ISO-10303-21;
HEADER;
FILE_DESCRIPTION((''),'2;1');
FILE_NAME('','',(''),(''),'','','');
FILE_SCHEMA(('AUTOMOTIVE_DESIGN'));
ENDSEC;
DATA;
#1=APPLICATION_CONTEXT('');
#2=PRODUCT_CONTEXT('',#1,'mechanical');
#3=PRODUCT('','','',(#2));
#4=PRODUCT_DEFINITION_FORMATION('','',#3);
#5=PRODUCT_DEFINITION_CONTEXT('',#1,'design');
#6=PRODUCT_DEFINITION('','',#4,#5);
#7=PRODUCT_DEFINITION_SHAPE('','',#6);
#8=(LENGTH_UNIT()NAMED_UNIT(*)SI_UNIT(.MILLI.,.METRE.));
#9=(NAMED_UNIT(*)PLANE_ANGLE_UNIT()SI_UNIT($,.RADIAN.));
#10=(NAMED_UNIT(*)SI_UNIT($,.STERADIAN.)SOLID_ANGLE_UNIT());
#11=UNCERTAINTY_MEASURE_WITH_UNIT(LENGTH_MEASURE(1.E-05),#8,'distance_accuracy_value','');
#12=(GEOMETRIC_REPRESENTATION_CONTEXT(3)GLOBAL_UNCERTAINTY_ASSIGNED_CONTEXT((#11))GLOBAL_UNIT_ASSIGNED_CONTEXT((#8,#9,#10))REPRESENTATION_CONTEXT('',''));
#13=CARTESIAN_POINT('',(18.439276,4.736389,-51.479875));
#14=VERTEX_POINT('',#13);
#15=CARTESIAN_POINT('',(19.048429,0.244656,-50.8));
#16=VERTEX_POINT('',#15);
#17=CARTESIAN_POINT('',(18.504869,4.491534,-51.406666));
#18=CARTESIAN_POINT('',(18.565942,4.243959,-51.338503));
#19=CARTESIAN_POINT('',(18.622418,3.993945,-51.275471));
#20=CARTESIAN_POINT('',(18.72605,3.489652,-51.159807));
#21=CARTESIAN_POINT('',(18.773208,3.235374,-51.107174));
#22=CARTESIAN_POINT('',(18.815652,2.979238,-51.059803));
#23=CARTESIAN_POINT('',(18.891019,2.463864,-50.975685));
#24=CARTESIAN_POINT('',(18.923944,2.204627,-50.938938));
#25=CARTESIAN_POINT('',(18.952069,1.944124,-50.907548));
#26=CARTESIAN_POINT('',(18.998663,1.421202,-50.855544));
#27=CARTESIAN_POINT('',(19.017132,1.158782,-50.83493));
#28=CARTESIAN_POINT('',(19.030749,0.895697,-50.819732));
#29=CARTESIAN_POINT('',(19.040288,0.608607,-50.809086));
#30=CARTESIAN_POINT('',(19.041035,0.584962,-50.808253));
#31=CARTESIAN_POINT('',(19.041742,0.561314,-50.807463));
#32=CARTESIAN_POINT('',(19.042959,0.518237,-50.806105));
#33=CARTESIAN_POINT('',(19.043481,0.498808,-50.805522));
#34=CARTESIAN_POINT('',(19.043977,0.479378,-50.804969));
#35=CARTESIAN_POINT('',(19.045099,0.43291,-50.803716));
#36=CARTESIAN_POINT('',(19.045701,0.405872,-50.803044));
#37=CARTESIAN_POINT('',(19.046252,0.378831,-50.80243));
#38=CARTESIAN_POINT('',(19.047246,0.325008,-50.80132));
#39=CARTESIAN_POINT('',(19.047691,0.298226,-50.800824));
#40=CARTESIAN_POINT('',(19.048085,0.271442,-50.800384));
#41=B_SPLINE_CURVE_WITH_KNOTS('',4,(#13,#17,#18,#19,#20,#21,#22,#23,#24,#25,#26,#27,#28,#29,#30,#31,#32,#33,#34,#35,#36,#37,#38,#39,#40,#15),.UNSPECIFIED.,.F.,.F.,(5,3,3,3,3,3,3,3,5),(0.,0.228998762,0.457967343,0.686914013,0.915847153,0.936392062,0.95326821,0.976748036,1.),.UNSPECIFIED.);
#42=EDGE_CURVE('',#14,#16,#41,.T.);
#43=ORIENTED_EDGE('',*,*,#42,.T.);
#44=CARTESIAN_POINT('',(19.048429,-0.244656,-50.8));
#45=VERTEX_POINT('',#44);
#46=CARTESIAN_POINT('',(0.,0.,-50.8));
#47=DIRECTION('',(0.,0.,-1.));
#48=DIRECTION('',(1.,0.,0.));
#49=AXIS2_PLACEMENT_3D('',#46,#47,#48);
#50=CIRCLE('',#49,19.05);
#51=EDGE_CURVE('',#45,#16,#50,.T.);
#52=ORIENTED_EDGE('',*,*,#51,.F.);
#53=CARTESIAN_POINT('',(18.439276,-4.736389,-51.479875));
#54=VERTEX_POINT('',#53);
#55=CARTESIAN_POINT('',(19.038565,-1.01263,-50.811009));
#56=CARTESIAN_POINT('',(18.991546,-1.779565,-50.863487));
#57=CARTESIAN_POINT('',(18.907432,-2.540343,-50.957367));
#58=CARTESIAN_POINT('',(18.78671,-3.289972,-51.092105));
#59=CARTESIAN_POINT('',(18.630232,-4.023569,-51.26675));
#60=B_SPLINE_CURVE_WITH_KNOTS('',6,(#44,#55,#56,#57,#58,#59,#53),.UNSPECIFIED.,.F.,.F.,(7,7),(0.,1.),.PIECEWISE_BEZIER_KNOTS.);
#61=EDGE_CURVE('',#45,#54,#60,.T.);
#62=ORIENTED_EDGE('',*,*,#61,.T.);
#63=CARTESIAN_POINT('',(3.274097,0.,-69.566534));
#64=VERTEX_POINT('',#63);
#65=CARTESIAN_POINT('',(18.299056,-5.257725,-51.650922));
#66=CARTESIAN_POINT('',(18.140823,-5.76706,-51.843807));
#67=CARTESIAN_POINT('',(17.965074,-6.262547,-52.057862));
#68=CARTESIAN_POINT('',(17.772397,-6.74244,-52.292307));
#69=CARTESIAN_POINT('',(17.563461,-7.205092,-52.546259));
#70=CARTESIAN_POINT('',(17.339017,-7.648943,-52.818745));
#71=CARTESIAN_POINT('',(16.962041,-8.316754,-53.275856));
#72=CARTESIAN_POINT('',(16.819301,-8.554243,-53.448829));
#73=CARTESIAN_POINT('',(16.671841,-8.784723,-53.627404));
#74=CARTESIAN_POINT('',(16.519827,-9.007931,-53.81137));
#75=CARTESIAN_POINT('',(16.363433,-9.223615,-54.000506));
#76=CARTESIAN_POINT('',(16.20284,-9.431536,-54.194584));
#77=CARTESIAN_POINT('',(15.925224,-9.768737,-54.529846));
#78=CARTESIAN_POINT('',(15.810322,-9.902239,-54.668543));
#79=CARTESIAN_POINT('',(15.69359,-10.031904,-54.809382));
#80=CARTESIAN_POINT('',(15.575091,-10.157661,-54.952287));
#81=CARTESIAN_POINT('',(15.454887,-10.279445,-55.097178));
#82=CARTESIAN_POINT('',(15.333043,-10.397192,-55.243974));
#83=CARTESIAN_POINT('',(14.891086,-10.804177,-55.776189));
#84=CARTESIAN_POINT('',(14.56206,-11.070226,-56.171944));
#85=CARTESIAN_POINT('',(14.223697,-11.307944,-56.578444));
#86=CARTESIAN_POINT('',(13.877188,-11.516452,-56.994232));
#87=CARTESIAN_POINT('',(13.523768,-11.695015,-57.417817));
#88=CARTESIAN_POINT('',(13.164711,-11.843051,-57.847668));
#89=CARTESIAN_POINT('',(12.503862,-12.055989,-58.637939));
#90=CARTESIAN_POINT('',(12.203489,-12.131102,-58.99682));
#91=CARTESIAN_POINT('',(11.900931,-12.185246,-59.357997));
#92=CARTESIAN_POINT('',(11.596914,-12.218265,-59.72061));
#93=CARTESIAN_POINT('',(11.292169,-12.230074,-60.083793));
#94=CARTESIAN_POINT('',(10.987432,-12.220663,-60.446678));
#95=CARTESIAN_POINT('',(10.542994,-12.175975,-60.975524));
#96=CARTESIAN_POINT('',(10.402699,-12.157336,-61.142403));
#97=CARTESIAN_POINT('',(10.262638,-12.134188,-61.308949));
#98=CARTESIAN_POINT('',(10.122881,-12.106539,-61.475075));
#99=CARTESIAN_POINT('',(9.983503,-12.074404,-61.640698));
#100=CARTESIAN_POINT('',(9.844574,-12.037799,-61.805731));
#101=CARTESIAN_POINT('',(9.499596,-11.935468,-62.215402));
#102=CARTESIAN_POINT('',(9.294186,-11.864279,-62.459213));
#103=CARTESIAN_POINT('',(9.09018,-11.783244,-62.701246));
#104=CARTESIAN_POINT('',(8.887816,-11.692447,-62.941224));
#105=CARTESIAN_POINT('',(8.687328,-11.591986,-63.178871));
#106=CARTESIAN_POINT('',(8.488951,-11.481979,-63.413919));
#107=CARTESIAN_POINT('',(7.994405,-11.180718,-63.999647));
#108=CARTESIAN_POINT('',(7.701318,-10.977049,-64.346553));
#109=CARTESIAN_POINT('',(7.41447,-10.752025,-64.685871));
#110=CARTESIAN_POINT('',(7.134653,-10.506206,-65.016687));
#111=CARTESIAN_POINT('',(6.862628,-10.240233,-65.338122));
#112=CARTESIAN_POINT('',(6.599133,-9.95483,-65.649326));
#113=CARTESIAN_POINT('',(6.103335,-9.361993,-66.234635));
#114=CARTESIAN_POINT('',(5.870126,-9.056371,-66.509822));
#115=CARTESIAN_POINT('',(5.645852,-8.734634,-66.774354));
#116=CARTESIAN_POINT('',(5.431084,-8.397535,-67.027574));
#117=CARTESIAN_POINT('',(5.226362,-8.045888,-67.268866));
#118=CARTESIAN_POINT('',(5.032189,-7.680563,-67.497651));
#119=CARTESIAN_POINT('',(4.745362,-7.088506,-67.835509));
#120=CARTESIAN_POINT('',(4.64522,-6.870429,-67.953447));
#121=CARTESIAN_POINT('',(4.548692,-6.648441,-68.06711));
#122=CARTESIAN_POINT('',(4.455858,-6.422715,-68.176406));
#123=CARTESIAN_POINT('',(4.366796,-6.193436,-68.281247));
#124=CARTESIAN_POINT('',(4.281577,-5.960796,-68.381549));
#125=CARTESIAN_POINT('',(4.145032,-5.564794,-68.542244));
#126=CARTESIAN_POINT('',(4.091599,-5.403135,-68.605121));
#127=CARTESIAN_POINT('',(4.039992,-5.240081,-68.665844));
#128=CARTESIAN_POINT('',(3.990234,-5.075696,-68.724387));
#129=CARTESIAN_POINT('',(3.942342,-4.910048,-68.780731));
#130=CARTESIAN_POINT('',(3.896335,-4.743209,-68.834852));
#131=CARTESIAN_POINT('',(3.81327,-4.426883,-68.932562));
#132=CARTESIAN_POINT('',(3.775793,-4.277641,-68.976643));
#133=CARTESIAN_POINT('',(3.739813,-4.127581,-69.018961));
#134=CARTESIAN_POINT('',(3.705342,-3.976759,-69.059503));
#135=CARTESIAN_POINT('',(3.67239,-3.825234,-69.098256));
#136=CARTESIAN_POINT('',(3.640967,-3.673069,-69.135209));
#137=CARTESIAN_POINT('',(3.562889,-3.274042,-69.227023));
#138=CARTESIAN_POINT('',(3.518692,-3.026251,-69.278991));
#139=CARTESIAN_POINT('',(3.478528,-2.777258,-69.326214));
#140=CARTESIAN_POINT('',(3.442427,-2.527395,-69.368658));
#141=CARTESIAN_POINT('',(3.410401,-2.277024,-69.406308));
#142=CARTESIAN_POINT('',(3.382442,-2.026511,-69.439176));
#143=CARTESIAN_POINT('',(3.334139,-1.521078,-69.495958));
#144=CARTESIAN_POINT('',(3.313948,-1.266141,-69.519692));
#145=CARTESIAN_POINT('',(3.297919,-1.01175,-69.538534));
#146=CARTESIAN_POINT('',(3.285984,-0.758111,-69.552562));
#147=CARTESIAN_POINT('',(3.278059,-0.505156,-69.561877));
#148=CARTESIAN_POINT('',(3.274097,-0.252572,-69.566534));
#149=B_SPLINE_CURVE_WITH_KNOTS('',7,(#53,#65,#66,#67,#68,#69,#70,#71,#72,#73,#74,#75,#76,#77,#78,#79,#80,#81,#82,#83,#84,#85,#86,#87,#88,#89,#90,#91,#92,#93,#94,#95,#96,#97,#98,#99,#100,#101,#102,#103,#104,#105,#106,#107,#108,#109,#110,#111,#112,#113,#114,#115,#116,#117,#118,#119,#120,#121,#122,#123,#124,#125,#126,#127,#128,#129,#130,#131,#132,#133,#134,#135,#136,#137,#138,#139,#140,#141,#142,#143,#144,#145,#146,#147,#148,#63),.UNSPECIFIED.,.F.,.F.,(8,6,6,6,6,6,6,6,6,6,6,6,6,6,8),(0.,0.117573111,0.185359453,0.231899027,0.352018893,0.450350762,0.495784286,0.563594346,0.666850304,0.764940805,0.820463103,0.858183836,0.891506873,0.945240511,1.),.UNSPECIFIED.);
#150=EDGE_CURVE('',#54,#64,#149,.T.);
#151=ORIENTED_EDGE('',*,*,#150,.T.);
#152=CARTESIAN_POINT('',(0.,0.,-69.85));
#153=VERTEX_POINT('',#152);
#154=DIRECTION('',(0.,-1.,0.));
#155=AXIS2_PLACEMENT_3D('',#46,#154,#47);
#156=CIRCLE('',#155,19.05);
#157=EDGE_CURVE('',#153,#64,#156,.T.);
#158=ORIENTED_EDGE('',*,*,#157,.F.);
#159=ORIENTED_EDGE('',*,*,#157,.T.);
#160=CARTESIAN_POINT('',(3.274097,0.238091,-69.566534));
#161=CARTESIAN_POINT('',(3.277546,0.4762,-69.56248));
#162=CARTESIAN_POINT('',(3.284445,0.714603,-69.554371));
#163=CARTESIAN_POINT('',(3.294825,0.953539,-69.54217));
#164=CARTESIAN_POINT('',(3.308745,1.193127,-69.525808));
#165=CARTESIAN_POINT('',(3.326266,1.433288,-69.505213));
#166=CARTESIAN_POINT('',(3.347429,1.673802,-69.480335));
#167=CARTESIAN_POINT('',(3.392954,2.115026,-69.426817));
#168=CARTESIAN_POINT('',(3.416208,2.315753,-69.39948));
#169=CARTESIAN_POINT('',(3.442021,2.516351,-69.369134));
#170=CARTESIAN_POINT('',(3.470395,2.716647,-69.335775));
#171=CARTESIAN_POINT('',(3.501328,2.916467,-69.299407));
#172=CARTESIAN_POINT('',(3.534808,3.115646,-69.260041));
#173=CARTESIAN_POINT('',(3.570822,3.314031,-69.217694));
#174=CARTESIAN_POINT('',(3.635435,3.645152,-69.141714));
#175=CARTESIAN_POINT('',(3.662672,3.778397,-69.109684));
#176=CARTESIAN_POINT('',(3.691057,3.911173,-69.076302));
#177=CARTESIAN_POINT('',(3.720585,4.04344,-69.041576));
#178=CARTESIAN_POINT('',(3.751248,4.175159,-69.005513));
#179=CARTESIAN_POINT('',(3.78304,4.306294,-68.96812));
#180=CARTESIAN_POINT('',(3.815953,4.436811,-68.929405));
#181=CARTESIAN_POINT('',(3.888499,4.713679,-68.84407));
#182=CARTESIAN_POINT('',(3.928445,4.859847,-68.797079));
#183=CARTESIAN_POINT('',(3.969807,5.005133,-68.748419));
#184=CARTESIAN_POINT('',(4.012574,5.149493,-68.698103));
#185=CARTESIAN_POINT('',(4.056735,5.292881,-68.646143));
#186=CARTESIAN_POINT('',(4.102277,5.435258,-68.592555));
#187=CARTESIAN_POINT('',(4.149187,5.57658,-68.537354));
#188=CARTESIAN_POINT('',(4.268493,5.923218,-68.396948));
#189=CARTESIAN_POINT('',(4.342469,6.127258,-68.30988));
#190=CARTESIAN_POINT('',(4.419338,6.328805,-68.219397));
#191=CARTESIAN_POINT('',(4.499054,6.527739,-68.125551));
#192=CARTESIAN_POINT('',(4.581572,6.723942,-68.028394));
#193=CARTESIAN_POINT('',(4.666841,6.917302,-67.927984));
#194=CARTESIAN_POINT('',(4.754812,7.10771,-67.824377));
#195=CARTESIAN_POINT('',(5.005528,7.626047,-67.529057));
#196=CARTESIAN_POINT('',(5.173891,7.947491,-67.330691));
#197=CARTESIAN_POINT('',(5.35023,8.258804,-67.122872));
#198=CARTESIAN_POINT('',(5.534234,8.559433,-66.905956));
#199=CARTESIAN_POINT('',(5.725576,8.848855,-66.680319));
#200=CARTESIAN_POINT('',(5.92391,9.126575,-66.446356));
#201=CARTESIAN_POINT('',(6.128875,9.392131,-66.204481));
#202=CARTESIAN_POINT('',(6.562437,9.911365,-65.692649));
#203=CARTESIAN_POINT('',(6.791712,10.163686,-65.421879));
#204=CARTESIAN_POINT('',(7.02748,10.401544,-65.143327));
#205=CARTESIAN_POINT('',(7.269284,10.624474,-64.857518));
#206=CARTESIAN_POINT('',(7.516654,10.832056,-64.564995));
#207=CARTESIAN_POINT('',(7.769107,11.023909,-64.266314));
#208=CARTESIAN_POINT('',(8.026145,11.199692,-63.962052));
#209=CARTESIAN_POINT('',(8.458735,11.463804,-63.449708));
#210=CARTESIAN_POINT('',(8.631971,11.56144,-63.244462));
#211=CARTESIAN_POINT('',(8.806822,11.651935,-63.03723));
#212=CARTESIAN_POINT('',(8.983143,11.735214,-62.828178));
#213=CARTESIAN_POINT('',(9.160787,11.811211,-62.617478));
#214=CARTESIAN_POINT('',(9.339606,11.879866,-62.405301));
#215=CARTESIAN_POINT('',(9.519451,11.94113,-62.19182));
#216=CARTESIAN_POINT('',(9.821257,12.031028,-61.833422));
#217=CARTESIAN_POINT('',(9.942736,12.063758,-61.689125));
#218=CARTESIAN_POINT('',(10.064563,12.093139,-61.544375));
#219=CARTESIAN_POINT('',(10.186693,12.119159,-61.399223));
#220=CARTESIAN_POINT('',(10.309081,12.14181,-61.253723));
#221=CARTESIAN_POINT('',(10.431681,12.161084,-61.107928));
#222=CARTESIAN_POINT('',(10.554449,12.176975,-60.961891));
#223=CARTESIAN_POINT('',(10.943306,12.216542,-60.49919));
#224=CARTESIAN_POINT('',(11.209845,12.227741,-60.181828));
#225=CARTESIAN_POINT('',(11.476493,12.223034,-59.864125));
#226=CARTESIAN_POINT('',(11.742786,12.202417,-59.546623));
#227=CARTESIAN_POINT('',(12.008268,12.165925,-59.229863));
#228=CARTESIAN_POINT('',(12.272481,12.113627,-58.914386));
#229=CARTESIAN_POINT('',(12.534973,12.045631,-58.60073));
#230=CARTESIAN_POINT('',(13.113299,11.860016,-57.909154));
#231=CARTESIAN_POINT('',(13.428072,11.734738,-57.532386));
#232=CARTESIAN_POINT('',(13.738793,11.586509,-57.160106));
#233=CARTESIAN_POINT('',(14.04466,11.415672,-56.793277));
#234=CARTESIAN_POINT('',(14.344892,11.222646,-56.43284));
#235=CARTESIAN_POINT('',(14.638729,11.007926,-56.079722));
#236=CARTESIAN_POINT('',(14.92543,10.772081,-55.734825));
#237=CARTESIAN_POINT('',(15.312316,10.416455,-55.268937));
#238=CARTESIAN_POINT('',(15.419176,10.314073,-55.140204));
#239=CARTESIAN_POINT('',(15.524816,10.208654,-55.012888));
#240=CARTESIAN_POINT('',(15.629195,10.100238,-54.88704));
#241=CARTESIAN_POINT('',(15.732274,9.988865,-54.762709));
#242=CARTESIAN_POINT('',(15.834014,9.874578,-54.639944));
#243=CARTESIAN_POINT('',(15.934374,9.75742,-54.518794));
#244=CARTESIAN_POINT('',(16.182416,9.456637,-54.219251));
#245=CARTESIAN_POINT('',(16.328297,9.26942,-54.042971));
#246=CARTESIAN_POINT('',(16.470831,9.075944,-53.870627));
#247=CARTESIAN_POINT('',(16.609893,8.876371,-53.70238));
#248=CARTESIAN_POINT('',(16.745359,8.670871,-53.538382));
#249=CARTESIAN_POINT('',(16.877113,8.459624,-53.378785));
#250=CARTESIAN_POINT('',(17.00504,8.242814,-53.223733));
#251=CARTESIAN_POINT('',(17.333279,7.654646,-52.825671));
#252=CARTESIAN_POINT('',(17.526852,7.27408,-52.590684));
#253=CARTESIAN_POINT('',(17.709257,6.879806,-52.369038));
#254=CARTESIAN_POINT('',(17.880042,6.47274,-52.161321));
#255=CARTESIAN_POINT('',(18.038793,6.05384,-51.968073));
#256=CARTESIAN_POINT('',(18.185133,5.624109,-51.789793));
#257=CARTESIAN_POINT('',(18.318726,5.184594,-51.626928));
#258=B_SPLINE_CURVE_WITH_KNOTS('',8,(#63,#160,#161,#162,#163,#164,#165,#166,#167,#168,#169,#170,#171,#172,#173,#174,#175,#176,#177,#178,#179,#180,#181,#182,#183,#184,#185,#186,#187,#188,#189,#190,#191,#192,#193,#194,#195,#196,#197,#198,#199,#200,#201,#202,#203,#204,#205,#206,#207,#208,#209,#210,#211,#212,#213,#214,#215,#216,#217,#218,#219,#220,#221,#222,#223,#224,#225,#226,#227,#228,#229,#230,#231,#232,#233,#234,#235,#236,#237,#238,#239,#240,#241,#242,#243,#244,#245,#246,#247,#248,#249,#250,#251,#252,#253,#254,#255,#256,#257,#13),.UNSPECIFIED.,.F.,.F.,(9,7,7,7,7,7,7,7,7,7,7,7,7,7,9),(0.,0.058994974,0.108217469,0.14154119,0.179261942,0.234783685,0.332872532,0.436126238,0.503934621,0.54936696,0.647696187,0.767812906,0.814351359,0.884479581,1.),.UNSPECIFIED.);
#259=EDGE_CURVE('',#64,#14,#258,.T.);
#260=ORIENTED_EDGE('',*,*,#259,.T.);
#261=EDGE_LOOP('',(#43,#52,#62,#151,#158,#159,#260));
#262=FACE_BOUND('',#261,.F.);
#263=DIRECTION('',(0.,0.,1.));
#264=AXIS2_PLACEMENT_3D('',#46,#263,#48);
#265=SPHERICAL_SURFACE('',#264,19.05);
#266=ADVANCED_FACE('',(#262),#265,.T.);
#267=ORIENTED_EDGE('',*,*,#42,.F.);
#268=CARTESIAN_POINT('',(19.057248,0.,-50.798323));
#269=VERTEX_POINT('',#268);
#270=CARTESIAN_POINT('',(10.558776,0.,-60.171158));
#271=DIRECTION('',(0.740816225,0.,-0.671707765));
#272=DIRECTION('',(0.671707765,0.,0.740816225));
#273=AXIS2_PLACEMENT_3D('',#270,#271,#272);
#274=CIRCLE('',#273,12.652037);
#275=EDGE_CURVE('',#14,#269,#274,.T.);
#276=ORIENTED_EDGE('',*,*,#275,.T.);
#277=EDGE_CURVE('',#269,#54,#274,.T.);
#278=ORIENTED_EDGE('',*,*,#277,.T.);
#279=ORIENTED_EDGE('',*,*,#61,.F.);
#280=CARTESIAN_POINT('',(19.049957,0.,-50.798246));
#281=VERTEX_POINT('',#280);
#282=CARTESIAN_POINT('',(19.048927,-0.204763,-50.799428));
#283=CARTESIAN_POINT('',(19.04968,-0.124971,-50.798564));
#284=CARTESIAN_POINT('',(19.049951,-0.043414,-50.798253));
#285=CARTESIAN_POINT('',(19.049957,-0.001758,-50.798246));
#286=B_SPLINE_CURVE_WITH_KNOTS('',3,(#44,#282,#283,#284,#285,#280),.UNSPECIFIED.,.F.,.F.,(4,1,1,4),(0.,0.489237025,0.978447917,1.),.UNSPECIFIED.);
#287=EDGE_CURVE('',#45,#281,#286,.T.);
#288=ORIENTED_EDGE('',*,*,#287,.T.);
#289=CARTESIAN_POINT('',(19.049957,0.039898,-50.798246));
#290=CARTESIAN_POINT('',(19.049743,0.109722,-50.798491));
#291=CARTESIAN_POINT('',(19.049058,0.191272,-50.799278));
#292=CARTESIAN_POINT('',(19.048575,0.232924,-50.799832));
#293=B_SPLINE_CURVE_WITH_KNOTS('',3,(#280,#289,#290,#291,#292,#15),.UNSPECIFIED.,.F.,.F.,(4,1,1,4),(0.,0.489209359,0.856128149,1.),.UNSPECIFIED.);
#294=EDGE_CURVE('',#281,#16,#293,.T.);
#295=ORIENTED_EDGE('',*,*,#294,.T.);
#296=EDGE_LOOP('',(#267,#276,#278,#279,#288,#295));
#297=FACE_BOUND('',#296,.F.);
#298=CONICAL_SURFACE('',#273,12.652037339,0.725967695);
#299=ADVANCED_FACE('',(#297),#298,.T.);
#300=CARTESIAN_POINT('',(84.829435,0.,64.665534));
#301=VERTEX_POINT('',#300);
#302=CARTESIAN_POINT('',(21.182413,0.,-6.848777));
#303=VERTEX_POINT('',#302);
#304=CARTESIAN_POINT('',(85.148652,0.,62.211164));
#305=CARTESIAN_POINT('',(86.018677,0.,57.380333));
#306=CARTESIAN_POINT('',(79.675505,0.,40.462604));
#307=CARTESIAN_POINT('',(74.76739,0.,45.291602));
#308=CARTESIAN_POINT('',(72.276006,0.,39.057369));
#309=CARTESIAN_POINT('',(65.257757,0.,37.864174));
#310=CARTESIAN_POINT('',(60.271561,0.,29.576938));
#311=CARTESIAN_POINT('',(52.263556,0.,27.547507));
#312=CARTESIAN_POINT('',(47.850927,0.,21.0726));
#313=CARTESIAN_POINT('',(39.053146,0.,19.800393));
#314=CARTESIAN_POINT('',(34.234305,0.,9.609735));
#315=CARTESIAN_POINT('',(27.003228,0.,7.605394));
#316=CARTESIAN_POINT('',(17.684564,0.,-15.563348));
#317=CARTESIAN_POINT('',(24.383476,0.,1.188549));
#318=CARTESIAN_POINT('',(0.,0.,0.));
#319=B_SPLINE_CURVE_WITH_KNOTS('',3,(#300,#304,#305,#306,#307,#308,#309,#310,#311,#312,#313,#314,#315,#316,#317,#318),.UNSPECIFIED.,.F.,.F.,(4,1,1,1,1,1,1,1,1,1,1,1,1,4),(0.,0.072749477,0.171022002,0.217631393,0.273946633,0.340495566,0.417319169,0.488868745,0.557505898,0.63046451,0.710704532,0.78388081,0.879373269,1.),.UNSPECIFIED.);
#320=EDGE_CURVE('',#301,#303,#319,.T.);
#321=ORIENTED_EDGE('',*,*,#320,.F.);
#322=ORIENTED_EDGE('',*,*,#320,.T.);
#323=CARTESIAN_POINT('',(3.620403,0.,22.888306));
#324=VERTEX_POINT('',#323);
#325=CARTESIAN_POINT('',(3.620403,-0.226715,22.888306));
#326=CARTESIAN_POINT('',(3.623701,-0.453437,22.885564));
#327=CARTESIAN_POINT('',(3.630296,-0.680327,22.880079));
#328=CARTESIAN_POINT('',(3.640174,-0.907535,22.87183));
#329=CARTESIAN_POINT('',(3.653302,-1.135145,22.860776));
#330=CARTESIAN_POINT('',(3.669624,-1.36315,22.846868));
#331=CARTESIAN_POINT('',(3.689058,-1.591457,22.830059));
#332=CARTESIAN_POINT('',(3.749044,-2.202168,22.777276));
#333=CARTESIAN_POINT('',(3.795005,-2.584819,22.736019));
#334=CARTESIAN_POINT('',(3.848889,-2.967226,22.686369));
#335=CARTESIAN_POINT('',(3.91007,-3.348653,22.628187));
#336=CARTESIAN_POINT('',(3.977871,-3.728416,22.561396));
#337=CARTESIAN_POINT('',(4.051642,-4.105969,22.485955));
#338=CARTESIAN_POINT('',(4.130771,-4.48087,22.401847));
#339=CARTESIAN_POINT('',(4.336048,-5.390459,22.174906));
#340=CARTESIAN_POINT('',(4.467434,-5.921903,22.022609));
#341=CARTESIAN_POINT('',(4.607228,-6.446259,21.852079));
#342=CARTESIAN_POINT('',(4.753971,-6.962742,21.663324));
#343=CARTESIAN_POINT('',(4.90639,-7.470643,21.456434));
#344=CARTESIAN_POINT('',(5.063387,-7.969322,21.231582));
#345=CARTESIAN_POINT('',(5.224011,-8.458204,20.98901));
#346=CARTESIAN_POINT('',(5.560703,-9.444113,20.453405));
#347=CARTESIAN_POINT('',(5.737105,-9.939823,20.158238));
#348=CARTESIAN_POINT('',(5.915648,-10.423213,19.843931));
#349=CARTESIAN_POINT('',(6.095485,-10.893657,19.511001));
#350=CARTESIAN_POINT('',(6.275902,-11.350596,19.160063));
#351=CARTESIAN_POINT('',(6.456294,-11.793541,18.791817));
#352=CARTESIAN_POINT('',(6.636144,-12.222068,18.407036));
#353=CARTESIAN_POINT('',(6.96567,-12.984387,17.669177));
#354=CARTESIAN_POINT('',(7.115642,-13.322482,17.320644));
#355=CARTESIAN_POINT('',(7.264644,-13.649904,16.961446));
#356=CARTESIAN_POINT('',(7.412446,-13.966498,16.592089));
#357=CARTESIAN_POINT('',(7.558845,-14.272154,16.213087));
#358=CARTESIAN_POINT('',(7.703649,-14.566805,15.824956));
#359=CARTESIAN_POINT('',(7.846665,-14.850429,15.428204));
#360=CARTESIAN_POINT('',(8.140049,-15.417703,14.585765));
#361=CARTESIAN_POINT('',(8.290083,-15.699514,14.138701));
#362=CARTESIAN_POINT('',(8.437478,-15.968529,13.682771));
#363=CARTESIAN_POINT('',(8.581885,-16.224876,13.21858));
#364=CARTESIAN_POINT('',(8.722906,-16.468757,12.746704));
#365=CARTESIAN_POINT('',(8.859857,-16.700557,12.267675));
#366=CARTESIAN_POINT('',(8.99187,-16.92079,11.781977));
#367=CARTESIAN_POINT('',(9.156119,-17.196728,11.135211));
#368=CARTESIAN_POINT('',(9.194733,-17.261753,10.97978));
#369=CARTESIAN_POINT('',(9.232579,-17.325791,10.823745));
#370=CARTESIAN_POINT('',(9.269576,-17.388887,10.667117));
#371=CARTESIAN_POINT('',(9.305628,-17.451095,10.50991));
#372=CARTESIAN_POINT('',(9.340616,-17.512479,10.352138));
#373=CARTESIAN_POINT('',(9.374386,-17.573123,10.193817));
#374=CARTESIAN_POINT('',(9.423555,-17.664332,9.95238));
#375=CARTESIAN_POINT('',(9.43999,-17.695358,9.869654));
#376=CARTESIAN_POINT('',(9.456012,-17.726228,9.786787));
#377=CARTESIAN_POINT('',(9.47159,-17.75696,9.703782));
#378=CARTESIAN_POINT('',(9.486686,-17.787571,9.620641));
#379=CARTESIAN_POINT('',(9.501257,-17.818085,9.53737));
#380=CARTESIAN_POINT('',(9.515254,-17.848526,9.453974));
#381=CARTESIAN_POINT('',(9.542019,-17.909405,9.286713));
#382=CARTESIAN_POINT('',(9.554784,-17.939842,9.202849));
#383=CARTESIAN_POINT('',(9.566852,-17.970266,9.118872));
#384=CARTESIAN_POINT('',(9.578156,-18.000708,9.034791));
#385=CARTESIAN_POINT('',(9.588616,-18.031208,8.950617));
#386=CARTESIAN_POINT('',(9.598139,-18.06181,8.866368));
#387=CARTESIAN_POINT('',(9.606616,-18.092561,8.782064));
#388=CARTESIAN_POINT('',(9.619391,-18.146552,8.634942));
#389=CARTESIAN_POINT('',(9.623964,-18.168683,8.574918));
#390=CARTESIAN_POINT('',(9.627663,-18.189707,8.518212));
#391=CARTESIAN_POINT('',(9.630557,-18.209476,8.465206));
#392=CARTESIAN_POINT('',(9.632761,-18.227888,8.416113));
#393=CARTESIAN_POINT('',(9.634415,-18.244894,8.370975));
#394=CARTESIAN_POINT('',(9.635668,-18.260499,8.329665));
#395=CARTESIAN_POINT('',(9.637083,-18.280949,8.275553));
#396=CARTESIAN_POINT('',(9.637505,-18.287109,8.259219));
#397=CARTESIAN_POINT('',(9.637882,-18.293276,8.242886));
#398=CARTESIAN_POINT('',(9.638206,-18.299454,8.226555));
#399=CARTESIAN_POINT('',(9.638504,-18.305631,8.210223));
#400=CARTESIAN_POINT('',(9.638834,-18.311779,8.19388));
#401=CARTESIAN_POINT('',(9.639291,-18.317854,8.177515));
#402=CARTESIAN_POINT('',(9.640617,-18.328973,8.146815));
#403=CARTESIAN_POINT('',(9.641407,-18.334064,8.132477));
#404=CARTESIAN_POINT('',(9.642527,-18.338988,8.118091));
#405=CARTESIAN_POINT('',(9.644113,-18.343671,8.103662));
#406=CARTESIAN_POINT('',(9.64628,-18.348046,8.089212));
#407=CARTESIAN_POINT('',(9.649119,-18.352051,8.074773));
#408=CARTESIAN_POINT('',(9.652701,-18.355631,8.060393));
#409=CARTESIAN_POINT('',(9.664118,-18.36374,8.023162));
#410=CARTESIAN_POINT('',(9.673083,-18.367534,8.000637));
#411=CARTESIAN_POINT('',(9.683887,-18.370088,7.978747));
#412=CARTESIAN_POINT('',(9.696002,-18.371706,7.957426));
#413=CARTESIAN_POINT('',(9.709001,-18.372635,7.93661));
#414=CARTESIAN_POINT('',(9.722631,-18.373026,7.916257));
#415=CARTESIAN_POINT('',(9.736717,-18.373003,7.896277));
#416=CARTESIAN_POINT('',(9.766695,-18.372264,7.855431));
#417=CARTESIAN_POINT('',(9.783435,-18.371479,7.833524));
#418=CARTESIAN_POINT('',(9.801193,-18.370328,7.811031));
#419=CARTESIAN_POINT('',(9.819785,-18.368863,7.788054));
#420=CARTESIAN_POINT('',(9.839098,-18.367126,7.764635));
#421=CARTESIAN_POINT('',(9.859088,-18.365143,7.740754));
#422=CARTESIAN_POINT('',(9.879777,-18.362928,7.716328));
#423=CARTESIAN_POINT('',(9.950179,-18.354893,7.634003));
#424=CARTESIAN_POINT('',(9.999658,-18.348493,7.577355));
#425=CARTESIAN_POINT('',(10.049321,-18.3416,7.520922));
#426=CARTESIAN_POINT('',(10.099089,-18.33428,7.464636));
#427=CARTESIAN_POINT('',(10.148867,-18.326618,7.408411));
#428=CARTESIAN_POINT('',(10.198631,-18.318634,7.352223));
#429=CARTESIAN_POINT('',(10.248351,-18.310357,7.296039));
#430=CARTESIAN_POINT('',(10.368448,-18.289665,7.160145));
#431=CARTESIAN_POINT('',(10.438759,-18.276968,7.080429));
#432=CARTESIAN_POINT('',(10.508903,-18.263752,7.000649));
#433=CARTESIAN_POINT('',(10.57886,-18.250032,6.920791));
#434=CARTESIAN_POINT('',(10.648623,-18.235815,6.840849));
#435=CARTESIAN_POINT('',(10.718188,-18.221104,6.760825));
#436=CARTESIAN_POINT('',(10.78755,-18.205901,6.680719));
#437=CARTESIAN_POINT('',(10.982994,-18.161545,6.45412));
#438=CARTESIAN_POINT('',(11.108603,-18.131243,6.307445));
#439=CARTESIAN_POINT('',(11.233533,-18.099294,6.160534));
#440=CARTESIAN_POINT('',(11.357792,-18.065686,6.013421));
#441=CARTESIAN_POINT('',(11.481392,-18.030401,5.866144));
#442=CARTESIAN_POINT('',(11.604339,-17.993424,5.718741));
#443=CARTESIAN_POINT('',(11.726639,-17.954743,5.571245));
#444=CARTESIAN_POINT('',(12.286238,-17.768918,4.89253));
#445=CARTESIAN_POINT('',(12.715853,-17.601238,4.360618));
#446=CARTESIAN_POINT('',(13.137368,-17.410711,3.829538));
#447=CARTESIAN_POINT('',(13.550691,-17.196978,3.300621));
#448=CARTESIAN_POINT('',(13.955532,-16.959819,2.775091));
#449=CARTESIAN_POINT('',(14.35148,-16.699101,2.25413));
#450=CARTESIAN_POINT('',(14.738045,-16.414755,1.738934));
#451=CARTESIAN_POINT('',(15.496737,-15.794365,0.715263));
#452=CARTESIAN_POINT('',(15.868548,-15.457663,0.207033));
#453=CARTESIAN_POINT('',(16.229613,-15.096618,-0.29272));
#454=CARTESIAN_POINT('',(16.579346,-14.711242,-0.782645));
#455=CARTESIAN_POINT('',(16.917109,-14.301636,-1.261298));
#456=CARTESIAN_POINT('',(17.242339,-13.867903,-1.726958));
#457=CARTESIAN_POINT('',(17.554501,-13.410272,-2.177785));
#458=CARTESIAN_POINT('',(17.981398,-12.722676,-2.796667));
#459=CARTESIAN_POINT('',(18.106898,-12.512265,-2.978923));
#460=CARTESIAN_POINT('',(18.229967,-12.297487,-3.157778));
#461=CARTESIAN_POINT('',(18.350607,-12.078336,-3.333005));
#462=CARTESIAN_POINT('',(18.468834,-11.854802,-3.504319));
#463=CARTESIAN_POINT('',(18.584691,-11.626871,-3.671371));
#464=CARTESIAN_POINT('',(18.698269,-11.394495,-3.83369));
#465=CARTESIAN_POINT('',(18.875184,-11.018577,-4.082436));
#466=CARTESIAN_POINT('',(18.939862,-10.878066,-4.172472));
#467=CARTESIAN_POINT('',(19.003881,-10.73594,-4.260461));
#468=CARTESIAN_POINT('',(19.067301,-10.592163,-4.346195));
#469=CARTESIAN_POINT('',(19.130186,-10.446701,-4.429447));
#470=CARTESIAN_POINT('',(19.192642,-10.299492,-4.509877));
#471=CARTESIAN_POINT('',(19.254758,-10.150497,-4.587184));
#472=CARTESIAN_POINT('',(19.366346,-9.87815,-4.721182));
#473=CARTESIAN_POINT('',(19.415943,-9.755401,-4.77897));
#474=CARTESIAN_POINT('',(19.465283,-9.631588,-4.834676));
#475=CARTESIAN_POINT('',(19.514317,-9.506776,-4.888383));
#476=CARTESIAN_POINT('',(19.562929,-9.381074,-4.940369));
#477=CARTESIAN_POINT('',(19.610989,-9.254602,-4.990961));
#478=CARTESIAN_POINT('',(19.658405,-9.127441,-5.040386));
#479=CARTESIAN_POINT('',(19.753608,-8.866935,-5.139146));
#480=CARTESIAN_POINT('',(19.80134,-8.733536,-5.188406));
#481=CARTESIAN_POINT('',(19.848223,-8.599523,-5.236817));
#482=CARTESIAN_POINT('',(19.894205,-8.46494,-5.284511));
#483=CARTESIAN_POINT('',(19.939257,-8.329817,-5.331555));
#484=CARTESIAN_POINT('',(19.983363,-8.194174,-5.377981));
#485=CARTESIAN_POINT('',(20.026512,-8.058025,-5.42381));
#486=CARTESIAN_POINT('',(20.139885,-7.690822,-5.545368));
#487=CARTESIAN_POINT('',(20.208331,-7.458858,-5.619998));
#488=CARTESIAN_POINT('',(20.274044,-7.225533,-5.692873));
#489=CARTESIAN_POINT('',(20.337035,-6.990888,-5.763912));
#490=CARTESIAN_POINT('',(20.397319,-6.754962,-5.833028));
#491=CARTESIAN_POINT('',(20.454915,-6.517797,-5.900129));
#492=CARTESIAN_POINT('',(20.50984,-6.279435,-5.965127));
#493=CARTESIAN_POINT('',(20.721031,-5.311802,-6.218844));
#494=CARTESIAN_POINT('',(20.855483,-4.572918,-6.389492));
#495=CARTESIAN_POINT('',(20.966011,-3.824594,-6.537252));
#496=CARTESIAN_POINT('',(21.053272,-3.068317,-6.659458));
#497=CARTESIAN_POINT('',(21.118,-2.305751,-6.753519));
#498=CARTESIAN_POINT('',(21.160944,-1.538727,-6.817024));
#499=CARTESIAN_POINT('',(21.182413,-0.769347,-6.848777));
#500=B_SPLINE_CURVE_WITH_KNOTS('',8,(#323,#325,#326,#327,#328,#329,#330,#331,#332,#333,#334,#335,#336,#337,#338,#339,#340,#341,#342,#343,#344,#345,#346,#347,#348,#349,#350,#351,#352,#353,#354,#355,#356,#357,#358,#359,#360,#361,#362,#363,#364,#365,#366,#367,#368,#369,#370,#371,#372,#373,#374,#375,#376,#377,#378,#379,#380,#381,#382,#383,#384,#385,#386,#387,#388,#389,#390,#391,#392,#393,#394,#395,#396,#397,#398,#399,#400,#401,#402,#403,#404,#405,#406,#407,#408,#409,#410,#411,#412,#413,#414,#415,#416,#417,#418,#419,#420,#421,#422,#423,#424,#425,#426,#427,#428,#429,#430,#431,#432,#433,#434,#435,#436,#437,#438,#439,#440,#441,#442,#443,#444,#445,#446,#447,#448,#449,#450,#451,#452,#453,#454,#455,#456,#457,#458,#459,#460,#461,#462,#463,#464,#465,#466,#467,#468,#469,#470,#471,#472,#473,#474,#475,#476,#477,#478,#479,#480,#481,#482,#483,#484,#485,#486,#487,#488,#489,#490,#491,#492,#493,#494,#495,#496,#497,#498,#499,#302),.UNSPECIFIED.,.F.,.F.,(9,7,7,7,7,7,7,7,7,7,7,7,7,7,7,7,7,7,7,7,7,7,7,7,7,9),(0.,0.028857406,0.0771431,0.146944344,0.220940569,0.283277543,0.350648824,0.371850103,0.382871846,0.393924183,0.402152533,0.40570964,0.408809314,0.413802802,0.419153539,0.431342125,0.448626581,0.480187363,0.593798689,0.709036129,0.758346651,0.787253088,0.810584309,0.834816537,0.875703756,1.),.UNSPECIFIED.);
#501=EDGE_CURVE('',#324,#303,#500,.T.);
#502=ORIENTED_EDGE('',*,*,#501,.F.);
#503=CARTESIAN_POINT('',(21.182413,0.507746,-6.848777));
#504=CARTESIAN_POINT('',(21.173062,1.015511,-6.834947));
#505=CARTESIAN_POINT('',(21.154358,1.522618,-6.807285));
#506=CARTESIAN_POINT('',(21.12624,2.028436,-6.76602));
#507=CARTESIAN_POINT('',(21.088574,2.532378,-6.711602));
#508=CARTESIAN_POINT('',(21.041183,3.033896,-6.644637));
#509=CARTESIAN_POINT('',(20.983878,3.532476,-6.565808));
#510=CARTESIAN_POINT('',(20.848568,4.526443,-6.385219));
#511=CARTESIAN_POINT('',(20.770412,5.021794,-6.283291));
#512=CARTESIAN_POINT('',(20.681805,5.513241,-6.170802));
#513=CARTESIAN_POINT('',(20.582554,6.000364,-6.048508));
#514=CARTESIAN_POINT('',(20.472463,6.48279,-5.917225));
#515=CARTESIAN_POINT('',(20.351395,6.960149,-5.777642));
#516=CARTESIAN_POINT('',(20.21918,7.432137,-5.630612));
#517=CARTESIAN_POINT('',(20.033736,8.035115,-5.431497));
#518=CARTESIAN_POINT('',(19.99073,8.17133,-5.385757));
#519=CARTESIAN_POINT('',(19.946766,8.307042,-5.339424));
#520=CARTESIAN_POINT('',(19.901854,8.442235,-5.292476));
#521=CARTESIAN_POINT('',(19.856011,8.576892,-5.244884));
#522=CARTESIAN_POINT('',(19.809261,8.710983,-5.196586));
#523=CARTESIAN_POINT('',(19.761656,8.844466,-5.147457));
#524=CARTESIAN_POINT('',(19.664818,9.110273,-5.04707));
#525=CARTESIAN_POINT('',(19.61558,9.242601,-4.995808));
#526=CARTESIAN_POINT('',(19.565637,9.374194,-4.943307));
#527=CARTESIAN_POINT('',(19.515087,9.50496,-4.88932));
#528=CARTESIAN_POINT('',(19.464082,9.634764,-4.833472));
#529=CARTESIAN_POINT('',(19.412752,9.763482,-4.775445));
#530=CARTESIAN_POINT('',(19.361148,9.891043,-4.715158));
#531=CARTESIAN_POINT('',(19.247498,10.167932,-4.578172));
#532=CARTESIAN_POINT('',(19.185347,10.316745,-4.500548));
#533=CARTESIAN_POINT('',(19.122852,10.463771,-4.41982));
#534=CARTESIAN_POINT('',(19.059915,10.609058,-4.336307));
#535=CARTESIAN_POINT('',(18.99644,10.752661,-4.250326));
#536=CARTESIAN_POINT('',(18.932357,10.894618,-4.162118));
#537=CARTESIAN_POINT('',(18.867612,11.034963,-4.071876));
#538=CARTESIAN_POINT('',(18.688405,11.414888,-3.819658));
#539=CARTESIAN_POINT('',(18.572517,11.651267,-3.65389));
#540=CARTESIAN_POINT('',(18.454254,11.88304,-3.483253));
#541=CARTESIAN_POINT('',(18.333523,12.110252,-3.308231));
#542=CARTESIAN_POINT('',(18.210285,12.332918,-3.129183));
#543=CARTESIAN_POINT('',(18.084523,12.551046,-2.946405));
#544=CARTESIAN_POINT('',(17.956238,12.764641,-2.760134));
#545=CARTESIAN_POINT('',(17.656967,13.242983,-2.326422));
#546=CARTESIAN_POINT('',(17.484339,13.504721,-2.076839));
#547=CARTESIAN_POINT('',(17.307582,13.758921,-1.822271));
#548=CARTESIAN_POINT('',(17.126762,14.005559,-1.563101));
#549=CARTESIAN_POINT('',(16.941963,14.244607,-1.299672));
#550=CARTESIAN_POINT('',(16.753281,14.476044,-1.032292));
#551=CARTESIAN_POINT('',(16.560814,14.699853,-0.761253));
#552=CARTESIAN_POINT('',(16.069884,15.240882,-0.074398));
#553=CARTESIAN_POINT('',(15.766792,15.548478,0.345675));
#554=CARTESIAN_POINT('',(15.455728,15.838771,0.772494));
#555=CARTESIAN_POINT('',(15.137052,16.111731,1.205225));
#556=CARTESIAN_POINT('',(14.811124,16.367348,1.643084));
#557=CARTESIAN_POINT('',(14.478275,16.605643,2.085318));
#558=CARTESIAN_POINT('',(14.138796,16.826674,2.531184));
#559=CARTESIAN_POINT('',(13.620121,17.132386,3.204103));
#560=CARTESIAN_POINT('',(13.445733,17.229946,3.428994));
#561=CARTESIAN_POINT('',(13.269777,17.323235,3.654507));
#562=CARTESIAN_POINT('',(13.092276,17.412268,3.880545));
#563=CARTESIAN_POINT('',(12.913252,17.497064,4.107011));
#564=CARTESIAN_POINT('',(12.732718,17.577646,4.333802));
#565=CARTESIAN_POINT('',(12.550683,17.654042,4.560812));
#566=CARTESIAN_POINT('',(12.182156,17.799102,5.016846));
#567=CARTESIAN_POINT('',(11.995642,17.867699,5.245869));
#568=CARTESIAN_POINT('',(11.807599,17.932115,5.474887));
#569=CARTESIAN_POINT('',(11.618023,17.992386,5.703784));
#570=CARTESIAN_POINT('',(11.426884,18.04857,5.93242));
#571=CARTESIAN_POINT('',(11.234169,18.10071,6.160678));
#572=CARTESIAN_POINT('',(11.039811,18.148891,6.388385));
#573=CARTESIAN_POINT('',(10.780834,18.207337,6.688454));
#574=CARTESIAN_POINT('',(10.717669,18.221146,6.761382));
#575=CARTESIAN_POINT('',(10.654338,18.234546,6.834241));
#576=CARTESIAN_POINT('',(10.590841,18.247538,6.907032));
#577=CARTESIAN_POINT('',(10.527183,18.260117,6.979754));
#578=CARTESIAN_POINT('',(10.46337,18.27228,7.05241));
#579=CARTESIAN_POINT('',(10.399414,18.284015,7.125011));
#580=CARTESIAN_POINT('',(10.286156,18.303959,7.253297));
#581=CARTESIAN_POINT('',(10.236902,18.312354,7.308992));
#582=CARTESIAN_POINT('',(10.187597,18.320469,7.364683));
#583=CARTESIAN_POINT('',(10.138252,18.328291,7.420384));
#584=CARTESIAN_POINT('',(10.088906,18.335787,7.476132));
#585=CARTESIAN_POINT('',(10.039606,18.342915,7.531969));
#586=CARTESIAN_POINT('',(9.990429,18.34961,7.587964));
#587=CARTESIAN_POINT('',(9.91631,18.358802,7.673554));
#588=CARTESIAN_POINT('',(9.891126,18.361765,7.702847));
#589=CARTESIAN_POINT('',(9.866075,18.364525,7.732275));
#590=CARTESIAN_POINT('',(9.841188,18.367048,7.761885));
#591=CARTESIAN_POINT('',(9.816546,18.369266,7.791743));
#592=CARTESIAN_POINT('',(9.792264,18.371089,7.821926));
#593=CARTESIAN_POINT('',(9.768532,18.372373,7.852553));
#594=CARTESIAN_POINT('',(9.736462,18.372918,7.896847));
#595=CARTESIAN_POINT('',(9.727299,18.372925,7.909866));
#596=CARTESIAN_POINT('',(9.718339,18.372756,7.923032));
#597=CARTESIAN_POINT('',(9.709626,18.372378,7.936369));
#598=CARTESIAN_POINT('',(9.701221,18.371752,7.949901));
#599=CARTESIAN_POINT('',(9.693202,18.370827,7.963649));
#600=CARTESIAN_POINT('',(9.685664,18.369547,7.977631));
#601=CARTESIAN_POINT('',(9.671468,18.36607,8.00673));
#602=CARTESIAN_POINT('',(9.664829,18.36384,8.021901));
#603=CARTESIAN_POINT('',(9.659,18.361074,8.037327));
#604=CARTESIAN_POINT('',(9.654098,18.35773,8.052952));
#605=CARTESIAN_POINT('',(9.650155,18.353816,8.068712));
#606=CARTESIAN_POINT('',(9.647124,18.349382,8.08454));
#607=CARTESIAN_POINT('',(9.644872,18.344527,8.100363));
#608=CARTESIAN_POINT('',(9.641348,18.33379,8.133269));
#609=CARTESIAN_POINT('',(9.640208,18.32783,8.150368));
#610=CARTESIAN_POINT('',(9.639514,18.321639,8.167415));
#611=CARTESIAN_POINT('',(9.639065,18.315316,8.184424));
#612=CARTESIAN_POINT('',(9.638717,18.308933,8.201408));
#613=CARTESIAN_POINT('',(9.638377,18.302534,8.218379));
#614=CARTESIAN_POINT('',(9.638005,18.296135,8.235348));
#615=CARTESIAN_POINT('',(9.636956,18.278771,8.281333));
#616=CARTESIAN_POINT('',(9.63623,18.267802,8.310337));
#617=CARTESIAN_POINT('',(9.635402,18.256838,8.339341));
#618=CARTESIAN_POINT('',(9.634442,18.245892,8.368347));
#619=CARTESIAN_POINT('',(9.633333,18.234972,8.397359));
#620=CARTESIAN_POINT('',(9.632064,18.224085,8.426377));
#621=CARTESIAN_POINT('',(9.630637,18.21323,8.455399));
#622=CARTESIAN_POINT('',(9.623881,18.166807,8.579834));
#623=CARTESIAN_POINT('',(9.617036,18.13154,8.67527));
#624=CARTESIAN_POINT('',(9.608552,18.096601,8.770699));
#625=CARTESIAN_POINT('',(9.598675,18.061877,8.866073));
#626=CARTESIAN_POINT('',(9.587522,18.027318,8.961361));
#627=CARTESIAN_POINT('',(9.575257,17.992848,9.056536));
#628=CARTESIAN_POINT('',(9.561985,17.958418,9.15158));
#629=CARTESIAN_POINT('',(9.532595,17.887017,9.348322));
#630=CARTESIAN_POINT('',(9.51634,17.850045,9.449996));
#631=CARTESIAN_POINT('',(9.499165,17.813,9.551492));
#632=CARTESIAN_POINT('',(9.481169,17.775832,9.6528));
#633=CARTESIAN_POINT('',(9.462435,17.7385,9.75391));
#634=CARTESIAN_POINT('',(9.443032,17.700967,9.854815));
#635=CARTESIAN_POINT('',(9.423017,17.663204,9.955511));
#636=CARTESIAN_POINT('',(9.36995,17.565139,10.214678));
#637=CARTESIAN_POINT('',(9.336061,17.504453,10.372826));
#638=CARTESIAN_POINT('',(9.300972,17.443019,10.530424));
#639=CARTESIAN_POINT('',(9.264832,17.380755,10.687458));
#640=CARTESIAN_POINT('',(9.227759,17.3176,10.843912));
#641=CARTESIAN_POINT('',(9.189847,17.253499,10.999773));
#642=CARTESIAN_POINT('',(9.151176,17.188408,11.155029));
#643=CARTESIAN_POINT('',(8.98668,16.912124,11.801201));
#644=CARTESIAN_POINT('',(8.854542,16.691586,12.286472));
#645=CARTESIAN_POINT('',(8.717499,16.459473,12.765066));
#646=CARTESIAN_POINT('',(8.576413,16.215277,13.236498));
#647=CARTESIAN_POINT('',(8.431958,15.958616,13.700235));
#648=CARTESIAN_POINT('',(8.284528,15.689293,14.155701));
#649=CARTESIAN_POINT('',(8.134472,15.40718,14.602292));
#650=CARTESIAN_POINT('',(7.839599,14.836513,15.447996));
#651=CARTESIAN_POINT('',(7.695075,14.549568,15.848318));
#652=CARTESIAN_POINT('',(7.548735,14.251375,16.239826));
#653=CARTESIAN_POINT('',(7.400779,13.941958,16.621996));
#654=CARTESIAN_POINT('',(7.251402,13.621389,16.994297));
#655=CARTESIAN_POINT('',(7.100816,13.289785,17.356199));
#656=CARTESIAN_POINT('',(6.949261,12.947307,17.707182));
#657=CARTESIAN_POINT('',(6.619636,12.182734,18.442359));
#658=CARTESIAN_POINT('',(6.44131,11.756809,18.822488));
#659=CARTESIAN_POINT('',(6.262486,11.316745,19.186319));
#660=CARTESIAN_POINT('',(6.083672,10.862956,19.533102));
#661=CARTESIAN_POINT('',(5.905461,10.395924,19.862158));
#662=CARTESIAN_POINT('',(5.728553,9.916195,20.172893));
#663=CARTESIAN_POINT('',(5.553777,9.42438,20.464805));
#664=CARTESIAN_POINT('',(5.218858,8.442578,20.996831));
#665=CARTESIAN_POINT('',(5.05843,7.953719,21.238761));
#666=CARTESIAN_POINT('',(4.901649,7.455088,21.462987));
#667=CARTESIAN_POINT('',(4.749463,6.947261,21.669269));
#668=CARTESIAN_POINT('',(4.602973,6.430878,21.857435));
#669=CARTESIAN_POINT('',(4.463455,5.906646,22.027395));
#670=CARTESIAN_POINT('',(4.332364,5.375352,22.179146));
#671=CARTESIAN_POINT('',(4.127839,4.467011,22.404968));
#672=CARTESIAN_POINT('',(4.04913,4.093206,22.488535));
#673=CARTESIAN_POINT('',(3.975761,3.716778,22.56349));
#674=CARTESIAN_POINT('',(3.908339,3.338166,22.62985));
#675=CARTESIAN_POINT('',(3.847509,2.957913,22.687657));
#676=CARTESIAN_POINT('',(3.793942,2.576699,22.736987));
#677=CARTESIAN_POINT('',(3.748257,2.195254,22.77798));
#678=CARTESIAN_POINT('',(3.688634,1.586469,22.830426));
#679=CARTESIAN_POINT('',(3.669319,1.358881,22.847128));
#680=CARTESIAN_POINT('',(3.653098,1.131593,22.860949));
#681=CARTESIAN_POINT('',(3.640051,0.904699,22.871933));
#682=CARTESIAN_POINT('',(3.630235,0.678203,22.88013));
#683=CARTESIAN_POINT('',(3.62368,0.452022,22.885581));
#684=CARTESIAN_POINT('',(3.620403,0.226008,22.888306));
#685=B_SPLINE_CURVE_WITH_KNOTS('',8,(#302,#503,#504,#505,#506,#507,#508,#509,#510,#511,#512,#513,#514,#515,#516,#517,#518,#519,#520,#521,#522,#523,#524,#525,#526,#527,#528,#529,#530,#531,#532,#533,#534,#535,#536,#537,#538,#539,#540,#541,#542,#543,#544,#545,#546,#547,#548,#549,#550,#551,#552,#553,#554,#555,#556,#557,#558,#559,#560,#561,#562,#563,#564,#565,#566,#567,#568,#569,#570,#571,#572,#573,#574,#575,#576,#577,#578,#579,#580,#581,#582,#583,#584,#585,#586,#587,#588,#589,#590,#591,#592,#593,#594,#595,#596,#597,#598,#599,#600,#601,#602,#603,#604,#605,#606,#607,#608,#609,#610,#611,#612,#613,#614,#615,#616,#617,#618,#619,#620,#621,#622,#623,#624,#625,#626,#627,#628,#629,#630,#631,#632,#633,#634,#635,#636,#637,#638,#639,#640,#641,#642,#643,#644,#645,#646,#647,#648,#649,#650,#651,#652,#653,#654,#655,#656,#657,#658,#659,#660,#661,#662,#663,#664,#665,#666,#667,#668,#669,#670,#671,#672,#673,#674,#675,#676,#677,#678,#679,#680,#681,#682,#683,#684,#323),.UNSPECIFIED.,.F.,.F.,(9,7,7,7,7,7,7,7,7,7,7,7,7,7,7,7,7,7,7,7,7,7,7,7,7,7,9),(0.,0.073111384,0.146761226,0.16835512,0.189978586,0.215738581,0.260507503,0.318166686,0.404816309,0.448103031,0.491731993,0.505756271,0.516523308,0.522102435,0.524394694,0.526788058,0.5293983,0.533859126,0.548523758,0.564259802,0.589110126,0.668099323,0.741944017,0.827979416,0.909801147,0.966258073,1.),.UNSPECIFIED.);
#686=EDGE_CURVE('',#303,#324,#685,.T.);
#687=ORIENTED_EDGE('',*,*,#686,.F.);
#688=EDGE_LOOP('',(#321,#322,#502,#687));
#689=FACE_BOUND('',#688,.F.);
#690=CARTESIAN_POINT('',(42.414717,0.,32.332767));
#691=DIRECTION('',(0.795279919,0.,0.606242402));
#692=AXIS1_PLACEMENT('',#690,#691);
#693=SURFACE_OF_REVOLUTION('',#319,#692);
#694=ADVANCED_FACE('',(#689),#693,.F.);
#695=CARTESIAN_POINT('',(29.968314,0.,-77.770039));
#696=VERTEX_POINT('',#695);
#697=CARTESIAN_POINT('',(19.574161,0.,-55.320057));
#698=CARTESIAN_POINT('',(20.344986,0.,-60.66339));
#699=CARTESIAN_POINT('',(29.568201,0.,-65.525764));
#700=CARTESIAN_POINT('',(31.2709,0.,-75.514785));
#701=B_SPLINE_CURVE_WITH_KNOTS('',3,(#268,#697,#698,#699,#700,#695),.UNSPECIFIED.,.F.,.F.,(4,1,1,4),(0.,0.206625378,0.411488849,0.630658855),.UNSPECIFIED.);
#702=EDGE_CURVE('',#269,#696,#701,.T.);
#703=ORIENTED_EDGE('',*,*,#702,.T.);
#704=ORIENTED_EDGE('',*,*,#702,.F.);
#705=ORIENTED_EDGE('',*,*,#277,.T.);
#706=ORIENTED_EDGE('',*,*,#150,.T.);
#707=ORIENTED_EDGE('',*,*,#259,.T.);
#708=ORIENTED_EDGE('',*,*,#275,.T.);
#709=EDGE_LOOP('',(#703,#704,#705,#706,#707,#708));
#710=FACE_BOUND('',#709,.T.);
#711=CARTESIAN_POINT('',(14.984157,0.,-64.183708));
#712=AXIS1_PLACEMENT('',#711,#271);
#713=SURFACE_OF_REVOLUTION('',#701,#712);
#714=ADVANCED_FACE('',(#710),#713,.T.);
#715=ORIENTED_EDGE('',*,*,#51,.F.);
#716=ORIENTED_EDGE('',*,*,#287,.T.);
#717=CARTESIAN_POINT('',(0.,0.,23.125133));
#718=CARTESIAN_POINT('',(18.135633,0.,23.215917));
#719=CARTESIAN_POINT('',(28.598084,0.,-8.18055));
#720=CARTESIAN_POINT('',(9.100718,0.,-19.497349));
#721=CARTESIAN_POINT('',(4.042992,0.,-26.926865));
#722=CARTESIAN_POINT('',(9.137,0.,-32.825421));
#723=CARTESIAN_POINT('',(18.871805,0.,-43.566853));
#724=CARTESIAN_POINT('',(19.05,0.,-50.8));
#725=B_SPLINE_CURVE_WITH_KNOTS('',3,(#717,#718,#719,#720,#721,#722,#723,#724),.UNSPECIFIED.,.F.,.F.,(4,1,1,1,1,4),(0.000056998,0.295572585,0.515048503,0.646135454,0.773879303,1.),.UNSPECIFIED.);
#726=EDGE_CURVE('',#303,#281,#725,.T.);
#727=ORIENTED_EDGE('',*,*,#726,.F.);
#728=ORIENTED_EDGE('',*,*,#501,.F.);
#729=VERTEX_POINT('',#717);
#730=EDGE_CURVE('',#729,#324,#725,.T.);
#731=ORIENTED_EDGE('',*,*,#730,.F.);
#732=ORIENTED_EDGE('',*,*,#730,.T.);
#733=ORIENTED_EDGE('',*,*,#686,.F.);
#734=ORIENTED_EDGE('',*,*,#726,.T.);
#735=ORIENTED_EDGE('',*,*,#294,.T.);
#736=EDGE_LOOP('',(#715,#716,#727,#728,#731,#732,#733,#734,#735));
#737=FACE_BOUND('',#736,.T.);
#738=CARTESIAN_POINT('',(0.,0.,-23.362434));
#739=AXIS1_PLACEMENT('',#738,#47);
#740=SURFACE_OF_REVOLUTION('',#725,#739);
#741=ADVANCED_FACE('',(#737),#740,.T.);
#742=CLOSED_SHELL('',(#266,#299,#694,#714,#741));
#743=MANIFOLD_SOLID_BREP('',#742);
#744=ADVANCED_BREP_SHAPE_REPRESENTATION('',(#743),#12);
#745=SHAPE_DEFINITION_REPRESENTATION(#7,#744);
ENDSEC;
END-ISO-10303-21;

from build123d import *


with BuildPart() as f1:
    # F0 (on Front) → F1 (revolve)
    with BuildSketch(Plane.XZ):
        with BuildLine():
            Line((0, 23.1251325458), (0, -69.85))
            ThreePointArc((0, -69.85), (13.4703841816, -64.2703841816), (19.05, -50.8))
            add(Edge.make_bspline(
                [(0, 23.1251325458), (18.1356334752, 23.2159168619), (28.5980837935, -8.1805497047), (9.1007178948, -19.4973486877), (4.0429915626, -26.9268646545), (9.1369998458, -32.8254209743), (18.8718047742, -43.5668532758), (19.05, -50.8)],
                knots=[5.69979e-05, 5.69979e-05, 5.69979e-05, 5.69979e-05, 0.2955725855, 0.5150485027, 0.646135454, 0.7738793028, 1, 1, 1, 1], degree=3))
        make_face()
    revolve(axis=Axis((0, 0, -23.3624337271), (0, 0, -1)))

    # F2 (on Front) → F3 (revolve)
    with BuildSketch(Plane.XZ):
        with BuildLine():
            Line((19.0572477877, -50.7983230054), (0, -50.5973771214))
            Line((0, -50.5973771214), (29.9683138728, -77.7700394392))
            add(Edge.make_bspline(
                [(19.0572477877, -50.7983230054), (19.5741607272, -55.3200569008), (20.3449855515, -60.6633899333), (29.5682008388, -65.5257639073), (31.2708995594, -75.5147847943), (29.9683138728, -77.7700394392)],
                knots=[0, 0, 0, 0, 0.2066253783, 0.4114888495, 0.6306588554, 0.6306588554, 0.6306588554, 0.6306588554], degree=3))
        make_face()
    revolve(axis=Axis((14.9841569364, 0, -64.1837082803), (0.7408162249, 0, -0.6717077645)))

    # F4 (on Front) → F5 (revolve)
    with BuildSketch(Plane.XZ):
        with BuildLine():
            Line((84.8294347525, 64.6655336022), (0, 0))
            add(Edge.make_bspline(
                [(84.8294347525, 64.6655336022), (85.1486520335, 62.2111644603), (86.0186774195, 57.3803331111), (79.6755046079, 40.4626042415), (74.767390393, 45.2916023412), (72.2760058976, 39.0573686108), (65.2577565726, 37.8641737226), (60.2715614634, 29.5769376402), (52.2635562796, 27.5475073411), (47.8509272871, 21.07260009), (39.0531456884, 19.8003925475), (34.23430485, 9.6097347851), (27.0032283737, 7.6053939444), (17.6845638229, -15.5633482989), (24.3834757994, 1.1885491985), (0, 0)],
                knots=[0, 0, 0, 0, 0.0727494774, 0.1710220022, 0.2176313931, 0.2739466329, 0.3404955662, 0.4173191685, 0.4888687455, 0.5575058979, 0.63046451, 0.7107045319, 0.7838808098, 0.8793732687, 1, 1, 1, 1], degree=3))
        make_face()
    revolve(axis=Axis((42.4147173762, 0, 32.3327668011), (0.7952799189, 0, 0.6062424024)))


solid = f1.part
